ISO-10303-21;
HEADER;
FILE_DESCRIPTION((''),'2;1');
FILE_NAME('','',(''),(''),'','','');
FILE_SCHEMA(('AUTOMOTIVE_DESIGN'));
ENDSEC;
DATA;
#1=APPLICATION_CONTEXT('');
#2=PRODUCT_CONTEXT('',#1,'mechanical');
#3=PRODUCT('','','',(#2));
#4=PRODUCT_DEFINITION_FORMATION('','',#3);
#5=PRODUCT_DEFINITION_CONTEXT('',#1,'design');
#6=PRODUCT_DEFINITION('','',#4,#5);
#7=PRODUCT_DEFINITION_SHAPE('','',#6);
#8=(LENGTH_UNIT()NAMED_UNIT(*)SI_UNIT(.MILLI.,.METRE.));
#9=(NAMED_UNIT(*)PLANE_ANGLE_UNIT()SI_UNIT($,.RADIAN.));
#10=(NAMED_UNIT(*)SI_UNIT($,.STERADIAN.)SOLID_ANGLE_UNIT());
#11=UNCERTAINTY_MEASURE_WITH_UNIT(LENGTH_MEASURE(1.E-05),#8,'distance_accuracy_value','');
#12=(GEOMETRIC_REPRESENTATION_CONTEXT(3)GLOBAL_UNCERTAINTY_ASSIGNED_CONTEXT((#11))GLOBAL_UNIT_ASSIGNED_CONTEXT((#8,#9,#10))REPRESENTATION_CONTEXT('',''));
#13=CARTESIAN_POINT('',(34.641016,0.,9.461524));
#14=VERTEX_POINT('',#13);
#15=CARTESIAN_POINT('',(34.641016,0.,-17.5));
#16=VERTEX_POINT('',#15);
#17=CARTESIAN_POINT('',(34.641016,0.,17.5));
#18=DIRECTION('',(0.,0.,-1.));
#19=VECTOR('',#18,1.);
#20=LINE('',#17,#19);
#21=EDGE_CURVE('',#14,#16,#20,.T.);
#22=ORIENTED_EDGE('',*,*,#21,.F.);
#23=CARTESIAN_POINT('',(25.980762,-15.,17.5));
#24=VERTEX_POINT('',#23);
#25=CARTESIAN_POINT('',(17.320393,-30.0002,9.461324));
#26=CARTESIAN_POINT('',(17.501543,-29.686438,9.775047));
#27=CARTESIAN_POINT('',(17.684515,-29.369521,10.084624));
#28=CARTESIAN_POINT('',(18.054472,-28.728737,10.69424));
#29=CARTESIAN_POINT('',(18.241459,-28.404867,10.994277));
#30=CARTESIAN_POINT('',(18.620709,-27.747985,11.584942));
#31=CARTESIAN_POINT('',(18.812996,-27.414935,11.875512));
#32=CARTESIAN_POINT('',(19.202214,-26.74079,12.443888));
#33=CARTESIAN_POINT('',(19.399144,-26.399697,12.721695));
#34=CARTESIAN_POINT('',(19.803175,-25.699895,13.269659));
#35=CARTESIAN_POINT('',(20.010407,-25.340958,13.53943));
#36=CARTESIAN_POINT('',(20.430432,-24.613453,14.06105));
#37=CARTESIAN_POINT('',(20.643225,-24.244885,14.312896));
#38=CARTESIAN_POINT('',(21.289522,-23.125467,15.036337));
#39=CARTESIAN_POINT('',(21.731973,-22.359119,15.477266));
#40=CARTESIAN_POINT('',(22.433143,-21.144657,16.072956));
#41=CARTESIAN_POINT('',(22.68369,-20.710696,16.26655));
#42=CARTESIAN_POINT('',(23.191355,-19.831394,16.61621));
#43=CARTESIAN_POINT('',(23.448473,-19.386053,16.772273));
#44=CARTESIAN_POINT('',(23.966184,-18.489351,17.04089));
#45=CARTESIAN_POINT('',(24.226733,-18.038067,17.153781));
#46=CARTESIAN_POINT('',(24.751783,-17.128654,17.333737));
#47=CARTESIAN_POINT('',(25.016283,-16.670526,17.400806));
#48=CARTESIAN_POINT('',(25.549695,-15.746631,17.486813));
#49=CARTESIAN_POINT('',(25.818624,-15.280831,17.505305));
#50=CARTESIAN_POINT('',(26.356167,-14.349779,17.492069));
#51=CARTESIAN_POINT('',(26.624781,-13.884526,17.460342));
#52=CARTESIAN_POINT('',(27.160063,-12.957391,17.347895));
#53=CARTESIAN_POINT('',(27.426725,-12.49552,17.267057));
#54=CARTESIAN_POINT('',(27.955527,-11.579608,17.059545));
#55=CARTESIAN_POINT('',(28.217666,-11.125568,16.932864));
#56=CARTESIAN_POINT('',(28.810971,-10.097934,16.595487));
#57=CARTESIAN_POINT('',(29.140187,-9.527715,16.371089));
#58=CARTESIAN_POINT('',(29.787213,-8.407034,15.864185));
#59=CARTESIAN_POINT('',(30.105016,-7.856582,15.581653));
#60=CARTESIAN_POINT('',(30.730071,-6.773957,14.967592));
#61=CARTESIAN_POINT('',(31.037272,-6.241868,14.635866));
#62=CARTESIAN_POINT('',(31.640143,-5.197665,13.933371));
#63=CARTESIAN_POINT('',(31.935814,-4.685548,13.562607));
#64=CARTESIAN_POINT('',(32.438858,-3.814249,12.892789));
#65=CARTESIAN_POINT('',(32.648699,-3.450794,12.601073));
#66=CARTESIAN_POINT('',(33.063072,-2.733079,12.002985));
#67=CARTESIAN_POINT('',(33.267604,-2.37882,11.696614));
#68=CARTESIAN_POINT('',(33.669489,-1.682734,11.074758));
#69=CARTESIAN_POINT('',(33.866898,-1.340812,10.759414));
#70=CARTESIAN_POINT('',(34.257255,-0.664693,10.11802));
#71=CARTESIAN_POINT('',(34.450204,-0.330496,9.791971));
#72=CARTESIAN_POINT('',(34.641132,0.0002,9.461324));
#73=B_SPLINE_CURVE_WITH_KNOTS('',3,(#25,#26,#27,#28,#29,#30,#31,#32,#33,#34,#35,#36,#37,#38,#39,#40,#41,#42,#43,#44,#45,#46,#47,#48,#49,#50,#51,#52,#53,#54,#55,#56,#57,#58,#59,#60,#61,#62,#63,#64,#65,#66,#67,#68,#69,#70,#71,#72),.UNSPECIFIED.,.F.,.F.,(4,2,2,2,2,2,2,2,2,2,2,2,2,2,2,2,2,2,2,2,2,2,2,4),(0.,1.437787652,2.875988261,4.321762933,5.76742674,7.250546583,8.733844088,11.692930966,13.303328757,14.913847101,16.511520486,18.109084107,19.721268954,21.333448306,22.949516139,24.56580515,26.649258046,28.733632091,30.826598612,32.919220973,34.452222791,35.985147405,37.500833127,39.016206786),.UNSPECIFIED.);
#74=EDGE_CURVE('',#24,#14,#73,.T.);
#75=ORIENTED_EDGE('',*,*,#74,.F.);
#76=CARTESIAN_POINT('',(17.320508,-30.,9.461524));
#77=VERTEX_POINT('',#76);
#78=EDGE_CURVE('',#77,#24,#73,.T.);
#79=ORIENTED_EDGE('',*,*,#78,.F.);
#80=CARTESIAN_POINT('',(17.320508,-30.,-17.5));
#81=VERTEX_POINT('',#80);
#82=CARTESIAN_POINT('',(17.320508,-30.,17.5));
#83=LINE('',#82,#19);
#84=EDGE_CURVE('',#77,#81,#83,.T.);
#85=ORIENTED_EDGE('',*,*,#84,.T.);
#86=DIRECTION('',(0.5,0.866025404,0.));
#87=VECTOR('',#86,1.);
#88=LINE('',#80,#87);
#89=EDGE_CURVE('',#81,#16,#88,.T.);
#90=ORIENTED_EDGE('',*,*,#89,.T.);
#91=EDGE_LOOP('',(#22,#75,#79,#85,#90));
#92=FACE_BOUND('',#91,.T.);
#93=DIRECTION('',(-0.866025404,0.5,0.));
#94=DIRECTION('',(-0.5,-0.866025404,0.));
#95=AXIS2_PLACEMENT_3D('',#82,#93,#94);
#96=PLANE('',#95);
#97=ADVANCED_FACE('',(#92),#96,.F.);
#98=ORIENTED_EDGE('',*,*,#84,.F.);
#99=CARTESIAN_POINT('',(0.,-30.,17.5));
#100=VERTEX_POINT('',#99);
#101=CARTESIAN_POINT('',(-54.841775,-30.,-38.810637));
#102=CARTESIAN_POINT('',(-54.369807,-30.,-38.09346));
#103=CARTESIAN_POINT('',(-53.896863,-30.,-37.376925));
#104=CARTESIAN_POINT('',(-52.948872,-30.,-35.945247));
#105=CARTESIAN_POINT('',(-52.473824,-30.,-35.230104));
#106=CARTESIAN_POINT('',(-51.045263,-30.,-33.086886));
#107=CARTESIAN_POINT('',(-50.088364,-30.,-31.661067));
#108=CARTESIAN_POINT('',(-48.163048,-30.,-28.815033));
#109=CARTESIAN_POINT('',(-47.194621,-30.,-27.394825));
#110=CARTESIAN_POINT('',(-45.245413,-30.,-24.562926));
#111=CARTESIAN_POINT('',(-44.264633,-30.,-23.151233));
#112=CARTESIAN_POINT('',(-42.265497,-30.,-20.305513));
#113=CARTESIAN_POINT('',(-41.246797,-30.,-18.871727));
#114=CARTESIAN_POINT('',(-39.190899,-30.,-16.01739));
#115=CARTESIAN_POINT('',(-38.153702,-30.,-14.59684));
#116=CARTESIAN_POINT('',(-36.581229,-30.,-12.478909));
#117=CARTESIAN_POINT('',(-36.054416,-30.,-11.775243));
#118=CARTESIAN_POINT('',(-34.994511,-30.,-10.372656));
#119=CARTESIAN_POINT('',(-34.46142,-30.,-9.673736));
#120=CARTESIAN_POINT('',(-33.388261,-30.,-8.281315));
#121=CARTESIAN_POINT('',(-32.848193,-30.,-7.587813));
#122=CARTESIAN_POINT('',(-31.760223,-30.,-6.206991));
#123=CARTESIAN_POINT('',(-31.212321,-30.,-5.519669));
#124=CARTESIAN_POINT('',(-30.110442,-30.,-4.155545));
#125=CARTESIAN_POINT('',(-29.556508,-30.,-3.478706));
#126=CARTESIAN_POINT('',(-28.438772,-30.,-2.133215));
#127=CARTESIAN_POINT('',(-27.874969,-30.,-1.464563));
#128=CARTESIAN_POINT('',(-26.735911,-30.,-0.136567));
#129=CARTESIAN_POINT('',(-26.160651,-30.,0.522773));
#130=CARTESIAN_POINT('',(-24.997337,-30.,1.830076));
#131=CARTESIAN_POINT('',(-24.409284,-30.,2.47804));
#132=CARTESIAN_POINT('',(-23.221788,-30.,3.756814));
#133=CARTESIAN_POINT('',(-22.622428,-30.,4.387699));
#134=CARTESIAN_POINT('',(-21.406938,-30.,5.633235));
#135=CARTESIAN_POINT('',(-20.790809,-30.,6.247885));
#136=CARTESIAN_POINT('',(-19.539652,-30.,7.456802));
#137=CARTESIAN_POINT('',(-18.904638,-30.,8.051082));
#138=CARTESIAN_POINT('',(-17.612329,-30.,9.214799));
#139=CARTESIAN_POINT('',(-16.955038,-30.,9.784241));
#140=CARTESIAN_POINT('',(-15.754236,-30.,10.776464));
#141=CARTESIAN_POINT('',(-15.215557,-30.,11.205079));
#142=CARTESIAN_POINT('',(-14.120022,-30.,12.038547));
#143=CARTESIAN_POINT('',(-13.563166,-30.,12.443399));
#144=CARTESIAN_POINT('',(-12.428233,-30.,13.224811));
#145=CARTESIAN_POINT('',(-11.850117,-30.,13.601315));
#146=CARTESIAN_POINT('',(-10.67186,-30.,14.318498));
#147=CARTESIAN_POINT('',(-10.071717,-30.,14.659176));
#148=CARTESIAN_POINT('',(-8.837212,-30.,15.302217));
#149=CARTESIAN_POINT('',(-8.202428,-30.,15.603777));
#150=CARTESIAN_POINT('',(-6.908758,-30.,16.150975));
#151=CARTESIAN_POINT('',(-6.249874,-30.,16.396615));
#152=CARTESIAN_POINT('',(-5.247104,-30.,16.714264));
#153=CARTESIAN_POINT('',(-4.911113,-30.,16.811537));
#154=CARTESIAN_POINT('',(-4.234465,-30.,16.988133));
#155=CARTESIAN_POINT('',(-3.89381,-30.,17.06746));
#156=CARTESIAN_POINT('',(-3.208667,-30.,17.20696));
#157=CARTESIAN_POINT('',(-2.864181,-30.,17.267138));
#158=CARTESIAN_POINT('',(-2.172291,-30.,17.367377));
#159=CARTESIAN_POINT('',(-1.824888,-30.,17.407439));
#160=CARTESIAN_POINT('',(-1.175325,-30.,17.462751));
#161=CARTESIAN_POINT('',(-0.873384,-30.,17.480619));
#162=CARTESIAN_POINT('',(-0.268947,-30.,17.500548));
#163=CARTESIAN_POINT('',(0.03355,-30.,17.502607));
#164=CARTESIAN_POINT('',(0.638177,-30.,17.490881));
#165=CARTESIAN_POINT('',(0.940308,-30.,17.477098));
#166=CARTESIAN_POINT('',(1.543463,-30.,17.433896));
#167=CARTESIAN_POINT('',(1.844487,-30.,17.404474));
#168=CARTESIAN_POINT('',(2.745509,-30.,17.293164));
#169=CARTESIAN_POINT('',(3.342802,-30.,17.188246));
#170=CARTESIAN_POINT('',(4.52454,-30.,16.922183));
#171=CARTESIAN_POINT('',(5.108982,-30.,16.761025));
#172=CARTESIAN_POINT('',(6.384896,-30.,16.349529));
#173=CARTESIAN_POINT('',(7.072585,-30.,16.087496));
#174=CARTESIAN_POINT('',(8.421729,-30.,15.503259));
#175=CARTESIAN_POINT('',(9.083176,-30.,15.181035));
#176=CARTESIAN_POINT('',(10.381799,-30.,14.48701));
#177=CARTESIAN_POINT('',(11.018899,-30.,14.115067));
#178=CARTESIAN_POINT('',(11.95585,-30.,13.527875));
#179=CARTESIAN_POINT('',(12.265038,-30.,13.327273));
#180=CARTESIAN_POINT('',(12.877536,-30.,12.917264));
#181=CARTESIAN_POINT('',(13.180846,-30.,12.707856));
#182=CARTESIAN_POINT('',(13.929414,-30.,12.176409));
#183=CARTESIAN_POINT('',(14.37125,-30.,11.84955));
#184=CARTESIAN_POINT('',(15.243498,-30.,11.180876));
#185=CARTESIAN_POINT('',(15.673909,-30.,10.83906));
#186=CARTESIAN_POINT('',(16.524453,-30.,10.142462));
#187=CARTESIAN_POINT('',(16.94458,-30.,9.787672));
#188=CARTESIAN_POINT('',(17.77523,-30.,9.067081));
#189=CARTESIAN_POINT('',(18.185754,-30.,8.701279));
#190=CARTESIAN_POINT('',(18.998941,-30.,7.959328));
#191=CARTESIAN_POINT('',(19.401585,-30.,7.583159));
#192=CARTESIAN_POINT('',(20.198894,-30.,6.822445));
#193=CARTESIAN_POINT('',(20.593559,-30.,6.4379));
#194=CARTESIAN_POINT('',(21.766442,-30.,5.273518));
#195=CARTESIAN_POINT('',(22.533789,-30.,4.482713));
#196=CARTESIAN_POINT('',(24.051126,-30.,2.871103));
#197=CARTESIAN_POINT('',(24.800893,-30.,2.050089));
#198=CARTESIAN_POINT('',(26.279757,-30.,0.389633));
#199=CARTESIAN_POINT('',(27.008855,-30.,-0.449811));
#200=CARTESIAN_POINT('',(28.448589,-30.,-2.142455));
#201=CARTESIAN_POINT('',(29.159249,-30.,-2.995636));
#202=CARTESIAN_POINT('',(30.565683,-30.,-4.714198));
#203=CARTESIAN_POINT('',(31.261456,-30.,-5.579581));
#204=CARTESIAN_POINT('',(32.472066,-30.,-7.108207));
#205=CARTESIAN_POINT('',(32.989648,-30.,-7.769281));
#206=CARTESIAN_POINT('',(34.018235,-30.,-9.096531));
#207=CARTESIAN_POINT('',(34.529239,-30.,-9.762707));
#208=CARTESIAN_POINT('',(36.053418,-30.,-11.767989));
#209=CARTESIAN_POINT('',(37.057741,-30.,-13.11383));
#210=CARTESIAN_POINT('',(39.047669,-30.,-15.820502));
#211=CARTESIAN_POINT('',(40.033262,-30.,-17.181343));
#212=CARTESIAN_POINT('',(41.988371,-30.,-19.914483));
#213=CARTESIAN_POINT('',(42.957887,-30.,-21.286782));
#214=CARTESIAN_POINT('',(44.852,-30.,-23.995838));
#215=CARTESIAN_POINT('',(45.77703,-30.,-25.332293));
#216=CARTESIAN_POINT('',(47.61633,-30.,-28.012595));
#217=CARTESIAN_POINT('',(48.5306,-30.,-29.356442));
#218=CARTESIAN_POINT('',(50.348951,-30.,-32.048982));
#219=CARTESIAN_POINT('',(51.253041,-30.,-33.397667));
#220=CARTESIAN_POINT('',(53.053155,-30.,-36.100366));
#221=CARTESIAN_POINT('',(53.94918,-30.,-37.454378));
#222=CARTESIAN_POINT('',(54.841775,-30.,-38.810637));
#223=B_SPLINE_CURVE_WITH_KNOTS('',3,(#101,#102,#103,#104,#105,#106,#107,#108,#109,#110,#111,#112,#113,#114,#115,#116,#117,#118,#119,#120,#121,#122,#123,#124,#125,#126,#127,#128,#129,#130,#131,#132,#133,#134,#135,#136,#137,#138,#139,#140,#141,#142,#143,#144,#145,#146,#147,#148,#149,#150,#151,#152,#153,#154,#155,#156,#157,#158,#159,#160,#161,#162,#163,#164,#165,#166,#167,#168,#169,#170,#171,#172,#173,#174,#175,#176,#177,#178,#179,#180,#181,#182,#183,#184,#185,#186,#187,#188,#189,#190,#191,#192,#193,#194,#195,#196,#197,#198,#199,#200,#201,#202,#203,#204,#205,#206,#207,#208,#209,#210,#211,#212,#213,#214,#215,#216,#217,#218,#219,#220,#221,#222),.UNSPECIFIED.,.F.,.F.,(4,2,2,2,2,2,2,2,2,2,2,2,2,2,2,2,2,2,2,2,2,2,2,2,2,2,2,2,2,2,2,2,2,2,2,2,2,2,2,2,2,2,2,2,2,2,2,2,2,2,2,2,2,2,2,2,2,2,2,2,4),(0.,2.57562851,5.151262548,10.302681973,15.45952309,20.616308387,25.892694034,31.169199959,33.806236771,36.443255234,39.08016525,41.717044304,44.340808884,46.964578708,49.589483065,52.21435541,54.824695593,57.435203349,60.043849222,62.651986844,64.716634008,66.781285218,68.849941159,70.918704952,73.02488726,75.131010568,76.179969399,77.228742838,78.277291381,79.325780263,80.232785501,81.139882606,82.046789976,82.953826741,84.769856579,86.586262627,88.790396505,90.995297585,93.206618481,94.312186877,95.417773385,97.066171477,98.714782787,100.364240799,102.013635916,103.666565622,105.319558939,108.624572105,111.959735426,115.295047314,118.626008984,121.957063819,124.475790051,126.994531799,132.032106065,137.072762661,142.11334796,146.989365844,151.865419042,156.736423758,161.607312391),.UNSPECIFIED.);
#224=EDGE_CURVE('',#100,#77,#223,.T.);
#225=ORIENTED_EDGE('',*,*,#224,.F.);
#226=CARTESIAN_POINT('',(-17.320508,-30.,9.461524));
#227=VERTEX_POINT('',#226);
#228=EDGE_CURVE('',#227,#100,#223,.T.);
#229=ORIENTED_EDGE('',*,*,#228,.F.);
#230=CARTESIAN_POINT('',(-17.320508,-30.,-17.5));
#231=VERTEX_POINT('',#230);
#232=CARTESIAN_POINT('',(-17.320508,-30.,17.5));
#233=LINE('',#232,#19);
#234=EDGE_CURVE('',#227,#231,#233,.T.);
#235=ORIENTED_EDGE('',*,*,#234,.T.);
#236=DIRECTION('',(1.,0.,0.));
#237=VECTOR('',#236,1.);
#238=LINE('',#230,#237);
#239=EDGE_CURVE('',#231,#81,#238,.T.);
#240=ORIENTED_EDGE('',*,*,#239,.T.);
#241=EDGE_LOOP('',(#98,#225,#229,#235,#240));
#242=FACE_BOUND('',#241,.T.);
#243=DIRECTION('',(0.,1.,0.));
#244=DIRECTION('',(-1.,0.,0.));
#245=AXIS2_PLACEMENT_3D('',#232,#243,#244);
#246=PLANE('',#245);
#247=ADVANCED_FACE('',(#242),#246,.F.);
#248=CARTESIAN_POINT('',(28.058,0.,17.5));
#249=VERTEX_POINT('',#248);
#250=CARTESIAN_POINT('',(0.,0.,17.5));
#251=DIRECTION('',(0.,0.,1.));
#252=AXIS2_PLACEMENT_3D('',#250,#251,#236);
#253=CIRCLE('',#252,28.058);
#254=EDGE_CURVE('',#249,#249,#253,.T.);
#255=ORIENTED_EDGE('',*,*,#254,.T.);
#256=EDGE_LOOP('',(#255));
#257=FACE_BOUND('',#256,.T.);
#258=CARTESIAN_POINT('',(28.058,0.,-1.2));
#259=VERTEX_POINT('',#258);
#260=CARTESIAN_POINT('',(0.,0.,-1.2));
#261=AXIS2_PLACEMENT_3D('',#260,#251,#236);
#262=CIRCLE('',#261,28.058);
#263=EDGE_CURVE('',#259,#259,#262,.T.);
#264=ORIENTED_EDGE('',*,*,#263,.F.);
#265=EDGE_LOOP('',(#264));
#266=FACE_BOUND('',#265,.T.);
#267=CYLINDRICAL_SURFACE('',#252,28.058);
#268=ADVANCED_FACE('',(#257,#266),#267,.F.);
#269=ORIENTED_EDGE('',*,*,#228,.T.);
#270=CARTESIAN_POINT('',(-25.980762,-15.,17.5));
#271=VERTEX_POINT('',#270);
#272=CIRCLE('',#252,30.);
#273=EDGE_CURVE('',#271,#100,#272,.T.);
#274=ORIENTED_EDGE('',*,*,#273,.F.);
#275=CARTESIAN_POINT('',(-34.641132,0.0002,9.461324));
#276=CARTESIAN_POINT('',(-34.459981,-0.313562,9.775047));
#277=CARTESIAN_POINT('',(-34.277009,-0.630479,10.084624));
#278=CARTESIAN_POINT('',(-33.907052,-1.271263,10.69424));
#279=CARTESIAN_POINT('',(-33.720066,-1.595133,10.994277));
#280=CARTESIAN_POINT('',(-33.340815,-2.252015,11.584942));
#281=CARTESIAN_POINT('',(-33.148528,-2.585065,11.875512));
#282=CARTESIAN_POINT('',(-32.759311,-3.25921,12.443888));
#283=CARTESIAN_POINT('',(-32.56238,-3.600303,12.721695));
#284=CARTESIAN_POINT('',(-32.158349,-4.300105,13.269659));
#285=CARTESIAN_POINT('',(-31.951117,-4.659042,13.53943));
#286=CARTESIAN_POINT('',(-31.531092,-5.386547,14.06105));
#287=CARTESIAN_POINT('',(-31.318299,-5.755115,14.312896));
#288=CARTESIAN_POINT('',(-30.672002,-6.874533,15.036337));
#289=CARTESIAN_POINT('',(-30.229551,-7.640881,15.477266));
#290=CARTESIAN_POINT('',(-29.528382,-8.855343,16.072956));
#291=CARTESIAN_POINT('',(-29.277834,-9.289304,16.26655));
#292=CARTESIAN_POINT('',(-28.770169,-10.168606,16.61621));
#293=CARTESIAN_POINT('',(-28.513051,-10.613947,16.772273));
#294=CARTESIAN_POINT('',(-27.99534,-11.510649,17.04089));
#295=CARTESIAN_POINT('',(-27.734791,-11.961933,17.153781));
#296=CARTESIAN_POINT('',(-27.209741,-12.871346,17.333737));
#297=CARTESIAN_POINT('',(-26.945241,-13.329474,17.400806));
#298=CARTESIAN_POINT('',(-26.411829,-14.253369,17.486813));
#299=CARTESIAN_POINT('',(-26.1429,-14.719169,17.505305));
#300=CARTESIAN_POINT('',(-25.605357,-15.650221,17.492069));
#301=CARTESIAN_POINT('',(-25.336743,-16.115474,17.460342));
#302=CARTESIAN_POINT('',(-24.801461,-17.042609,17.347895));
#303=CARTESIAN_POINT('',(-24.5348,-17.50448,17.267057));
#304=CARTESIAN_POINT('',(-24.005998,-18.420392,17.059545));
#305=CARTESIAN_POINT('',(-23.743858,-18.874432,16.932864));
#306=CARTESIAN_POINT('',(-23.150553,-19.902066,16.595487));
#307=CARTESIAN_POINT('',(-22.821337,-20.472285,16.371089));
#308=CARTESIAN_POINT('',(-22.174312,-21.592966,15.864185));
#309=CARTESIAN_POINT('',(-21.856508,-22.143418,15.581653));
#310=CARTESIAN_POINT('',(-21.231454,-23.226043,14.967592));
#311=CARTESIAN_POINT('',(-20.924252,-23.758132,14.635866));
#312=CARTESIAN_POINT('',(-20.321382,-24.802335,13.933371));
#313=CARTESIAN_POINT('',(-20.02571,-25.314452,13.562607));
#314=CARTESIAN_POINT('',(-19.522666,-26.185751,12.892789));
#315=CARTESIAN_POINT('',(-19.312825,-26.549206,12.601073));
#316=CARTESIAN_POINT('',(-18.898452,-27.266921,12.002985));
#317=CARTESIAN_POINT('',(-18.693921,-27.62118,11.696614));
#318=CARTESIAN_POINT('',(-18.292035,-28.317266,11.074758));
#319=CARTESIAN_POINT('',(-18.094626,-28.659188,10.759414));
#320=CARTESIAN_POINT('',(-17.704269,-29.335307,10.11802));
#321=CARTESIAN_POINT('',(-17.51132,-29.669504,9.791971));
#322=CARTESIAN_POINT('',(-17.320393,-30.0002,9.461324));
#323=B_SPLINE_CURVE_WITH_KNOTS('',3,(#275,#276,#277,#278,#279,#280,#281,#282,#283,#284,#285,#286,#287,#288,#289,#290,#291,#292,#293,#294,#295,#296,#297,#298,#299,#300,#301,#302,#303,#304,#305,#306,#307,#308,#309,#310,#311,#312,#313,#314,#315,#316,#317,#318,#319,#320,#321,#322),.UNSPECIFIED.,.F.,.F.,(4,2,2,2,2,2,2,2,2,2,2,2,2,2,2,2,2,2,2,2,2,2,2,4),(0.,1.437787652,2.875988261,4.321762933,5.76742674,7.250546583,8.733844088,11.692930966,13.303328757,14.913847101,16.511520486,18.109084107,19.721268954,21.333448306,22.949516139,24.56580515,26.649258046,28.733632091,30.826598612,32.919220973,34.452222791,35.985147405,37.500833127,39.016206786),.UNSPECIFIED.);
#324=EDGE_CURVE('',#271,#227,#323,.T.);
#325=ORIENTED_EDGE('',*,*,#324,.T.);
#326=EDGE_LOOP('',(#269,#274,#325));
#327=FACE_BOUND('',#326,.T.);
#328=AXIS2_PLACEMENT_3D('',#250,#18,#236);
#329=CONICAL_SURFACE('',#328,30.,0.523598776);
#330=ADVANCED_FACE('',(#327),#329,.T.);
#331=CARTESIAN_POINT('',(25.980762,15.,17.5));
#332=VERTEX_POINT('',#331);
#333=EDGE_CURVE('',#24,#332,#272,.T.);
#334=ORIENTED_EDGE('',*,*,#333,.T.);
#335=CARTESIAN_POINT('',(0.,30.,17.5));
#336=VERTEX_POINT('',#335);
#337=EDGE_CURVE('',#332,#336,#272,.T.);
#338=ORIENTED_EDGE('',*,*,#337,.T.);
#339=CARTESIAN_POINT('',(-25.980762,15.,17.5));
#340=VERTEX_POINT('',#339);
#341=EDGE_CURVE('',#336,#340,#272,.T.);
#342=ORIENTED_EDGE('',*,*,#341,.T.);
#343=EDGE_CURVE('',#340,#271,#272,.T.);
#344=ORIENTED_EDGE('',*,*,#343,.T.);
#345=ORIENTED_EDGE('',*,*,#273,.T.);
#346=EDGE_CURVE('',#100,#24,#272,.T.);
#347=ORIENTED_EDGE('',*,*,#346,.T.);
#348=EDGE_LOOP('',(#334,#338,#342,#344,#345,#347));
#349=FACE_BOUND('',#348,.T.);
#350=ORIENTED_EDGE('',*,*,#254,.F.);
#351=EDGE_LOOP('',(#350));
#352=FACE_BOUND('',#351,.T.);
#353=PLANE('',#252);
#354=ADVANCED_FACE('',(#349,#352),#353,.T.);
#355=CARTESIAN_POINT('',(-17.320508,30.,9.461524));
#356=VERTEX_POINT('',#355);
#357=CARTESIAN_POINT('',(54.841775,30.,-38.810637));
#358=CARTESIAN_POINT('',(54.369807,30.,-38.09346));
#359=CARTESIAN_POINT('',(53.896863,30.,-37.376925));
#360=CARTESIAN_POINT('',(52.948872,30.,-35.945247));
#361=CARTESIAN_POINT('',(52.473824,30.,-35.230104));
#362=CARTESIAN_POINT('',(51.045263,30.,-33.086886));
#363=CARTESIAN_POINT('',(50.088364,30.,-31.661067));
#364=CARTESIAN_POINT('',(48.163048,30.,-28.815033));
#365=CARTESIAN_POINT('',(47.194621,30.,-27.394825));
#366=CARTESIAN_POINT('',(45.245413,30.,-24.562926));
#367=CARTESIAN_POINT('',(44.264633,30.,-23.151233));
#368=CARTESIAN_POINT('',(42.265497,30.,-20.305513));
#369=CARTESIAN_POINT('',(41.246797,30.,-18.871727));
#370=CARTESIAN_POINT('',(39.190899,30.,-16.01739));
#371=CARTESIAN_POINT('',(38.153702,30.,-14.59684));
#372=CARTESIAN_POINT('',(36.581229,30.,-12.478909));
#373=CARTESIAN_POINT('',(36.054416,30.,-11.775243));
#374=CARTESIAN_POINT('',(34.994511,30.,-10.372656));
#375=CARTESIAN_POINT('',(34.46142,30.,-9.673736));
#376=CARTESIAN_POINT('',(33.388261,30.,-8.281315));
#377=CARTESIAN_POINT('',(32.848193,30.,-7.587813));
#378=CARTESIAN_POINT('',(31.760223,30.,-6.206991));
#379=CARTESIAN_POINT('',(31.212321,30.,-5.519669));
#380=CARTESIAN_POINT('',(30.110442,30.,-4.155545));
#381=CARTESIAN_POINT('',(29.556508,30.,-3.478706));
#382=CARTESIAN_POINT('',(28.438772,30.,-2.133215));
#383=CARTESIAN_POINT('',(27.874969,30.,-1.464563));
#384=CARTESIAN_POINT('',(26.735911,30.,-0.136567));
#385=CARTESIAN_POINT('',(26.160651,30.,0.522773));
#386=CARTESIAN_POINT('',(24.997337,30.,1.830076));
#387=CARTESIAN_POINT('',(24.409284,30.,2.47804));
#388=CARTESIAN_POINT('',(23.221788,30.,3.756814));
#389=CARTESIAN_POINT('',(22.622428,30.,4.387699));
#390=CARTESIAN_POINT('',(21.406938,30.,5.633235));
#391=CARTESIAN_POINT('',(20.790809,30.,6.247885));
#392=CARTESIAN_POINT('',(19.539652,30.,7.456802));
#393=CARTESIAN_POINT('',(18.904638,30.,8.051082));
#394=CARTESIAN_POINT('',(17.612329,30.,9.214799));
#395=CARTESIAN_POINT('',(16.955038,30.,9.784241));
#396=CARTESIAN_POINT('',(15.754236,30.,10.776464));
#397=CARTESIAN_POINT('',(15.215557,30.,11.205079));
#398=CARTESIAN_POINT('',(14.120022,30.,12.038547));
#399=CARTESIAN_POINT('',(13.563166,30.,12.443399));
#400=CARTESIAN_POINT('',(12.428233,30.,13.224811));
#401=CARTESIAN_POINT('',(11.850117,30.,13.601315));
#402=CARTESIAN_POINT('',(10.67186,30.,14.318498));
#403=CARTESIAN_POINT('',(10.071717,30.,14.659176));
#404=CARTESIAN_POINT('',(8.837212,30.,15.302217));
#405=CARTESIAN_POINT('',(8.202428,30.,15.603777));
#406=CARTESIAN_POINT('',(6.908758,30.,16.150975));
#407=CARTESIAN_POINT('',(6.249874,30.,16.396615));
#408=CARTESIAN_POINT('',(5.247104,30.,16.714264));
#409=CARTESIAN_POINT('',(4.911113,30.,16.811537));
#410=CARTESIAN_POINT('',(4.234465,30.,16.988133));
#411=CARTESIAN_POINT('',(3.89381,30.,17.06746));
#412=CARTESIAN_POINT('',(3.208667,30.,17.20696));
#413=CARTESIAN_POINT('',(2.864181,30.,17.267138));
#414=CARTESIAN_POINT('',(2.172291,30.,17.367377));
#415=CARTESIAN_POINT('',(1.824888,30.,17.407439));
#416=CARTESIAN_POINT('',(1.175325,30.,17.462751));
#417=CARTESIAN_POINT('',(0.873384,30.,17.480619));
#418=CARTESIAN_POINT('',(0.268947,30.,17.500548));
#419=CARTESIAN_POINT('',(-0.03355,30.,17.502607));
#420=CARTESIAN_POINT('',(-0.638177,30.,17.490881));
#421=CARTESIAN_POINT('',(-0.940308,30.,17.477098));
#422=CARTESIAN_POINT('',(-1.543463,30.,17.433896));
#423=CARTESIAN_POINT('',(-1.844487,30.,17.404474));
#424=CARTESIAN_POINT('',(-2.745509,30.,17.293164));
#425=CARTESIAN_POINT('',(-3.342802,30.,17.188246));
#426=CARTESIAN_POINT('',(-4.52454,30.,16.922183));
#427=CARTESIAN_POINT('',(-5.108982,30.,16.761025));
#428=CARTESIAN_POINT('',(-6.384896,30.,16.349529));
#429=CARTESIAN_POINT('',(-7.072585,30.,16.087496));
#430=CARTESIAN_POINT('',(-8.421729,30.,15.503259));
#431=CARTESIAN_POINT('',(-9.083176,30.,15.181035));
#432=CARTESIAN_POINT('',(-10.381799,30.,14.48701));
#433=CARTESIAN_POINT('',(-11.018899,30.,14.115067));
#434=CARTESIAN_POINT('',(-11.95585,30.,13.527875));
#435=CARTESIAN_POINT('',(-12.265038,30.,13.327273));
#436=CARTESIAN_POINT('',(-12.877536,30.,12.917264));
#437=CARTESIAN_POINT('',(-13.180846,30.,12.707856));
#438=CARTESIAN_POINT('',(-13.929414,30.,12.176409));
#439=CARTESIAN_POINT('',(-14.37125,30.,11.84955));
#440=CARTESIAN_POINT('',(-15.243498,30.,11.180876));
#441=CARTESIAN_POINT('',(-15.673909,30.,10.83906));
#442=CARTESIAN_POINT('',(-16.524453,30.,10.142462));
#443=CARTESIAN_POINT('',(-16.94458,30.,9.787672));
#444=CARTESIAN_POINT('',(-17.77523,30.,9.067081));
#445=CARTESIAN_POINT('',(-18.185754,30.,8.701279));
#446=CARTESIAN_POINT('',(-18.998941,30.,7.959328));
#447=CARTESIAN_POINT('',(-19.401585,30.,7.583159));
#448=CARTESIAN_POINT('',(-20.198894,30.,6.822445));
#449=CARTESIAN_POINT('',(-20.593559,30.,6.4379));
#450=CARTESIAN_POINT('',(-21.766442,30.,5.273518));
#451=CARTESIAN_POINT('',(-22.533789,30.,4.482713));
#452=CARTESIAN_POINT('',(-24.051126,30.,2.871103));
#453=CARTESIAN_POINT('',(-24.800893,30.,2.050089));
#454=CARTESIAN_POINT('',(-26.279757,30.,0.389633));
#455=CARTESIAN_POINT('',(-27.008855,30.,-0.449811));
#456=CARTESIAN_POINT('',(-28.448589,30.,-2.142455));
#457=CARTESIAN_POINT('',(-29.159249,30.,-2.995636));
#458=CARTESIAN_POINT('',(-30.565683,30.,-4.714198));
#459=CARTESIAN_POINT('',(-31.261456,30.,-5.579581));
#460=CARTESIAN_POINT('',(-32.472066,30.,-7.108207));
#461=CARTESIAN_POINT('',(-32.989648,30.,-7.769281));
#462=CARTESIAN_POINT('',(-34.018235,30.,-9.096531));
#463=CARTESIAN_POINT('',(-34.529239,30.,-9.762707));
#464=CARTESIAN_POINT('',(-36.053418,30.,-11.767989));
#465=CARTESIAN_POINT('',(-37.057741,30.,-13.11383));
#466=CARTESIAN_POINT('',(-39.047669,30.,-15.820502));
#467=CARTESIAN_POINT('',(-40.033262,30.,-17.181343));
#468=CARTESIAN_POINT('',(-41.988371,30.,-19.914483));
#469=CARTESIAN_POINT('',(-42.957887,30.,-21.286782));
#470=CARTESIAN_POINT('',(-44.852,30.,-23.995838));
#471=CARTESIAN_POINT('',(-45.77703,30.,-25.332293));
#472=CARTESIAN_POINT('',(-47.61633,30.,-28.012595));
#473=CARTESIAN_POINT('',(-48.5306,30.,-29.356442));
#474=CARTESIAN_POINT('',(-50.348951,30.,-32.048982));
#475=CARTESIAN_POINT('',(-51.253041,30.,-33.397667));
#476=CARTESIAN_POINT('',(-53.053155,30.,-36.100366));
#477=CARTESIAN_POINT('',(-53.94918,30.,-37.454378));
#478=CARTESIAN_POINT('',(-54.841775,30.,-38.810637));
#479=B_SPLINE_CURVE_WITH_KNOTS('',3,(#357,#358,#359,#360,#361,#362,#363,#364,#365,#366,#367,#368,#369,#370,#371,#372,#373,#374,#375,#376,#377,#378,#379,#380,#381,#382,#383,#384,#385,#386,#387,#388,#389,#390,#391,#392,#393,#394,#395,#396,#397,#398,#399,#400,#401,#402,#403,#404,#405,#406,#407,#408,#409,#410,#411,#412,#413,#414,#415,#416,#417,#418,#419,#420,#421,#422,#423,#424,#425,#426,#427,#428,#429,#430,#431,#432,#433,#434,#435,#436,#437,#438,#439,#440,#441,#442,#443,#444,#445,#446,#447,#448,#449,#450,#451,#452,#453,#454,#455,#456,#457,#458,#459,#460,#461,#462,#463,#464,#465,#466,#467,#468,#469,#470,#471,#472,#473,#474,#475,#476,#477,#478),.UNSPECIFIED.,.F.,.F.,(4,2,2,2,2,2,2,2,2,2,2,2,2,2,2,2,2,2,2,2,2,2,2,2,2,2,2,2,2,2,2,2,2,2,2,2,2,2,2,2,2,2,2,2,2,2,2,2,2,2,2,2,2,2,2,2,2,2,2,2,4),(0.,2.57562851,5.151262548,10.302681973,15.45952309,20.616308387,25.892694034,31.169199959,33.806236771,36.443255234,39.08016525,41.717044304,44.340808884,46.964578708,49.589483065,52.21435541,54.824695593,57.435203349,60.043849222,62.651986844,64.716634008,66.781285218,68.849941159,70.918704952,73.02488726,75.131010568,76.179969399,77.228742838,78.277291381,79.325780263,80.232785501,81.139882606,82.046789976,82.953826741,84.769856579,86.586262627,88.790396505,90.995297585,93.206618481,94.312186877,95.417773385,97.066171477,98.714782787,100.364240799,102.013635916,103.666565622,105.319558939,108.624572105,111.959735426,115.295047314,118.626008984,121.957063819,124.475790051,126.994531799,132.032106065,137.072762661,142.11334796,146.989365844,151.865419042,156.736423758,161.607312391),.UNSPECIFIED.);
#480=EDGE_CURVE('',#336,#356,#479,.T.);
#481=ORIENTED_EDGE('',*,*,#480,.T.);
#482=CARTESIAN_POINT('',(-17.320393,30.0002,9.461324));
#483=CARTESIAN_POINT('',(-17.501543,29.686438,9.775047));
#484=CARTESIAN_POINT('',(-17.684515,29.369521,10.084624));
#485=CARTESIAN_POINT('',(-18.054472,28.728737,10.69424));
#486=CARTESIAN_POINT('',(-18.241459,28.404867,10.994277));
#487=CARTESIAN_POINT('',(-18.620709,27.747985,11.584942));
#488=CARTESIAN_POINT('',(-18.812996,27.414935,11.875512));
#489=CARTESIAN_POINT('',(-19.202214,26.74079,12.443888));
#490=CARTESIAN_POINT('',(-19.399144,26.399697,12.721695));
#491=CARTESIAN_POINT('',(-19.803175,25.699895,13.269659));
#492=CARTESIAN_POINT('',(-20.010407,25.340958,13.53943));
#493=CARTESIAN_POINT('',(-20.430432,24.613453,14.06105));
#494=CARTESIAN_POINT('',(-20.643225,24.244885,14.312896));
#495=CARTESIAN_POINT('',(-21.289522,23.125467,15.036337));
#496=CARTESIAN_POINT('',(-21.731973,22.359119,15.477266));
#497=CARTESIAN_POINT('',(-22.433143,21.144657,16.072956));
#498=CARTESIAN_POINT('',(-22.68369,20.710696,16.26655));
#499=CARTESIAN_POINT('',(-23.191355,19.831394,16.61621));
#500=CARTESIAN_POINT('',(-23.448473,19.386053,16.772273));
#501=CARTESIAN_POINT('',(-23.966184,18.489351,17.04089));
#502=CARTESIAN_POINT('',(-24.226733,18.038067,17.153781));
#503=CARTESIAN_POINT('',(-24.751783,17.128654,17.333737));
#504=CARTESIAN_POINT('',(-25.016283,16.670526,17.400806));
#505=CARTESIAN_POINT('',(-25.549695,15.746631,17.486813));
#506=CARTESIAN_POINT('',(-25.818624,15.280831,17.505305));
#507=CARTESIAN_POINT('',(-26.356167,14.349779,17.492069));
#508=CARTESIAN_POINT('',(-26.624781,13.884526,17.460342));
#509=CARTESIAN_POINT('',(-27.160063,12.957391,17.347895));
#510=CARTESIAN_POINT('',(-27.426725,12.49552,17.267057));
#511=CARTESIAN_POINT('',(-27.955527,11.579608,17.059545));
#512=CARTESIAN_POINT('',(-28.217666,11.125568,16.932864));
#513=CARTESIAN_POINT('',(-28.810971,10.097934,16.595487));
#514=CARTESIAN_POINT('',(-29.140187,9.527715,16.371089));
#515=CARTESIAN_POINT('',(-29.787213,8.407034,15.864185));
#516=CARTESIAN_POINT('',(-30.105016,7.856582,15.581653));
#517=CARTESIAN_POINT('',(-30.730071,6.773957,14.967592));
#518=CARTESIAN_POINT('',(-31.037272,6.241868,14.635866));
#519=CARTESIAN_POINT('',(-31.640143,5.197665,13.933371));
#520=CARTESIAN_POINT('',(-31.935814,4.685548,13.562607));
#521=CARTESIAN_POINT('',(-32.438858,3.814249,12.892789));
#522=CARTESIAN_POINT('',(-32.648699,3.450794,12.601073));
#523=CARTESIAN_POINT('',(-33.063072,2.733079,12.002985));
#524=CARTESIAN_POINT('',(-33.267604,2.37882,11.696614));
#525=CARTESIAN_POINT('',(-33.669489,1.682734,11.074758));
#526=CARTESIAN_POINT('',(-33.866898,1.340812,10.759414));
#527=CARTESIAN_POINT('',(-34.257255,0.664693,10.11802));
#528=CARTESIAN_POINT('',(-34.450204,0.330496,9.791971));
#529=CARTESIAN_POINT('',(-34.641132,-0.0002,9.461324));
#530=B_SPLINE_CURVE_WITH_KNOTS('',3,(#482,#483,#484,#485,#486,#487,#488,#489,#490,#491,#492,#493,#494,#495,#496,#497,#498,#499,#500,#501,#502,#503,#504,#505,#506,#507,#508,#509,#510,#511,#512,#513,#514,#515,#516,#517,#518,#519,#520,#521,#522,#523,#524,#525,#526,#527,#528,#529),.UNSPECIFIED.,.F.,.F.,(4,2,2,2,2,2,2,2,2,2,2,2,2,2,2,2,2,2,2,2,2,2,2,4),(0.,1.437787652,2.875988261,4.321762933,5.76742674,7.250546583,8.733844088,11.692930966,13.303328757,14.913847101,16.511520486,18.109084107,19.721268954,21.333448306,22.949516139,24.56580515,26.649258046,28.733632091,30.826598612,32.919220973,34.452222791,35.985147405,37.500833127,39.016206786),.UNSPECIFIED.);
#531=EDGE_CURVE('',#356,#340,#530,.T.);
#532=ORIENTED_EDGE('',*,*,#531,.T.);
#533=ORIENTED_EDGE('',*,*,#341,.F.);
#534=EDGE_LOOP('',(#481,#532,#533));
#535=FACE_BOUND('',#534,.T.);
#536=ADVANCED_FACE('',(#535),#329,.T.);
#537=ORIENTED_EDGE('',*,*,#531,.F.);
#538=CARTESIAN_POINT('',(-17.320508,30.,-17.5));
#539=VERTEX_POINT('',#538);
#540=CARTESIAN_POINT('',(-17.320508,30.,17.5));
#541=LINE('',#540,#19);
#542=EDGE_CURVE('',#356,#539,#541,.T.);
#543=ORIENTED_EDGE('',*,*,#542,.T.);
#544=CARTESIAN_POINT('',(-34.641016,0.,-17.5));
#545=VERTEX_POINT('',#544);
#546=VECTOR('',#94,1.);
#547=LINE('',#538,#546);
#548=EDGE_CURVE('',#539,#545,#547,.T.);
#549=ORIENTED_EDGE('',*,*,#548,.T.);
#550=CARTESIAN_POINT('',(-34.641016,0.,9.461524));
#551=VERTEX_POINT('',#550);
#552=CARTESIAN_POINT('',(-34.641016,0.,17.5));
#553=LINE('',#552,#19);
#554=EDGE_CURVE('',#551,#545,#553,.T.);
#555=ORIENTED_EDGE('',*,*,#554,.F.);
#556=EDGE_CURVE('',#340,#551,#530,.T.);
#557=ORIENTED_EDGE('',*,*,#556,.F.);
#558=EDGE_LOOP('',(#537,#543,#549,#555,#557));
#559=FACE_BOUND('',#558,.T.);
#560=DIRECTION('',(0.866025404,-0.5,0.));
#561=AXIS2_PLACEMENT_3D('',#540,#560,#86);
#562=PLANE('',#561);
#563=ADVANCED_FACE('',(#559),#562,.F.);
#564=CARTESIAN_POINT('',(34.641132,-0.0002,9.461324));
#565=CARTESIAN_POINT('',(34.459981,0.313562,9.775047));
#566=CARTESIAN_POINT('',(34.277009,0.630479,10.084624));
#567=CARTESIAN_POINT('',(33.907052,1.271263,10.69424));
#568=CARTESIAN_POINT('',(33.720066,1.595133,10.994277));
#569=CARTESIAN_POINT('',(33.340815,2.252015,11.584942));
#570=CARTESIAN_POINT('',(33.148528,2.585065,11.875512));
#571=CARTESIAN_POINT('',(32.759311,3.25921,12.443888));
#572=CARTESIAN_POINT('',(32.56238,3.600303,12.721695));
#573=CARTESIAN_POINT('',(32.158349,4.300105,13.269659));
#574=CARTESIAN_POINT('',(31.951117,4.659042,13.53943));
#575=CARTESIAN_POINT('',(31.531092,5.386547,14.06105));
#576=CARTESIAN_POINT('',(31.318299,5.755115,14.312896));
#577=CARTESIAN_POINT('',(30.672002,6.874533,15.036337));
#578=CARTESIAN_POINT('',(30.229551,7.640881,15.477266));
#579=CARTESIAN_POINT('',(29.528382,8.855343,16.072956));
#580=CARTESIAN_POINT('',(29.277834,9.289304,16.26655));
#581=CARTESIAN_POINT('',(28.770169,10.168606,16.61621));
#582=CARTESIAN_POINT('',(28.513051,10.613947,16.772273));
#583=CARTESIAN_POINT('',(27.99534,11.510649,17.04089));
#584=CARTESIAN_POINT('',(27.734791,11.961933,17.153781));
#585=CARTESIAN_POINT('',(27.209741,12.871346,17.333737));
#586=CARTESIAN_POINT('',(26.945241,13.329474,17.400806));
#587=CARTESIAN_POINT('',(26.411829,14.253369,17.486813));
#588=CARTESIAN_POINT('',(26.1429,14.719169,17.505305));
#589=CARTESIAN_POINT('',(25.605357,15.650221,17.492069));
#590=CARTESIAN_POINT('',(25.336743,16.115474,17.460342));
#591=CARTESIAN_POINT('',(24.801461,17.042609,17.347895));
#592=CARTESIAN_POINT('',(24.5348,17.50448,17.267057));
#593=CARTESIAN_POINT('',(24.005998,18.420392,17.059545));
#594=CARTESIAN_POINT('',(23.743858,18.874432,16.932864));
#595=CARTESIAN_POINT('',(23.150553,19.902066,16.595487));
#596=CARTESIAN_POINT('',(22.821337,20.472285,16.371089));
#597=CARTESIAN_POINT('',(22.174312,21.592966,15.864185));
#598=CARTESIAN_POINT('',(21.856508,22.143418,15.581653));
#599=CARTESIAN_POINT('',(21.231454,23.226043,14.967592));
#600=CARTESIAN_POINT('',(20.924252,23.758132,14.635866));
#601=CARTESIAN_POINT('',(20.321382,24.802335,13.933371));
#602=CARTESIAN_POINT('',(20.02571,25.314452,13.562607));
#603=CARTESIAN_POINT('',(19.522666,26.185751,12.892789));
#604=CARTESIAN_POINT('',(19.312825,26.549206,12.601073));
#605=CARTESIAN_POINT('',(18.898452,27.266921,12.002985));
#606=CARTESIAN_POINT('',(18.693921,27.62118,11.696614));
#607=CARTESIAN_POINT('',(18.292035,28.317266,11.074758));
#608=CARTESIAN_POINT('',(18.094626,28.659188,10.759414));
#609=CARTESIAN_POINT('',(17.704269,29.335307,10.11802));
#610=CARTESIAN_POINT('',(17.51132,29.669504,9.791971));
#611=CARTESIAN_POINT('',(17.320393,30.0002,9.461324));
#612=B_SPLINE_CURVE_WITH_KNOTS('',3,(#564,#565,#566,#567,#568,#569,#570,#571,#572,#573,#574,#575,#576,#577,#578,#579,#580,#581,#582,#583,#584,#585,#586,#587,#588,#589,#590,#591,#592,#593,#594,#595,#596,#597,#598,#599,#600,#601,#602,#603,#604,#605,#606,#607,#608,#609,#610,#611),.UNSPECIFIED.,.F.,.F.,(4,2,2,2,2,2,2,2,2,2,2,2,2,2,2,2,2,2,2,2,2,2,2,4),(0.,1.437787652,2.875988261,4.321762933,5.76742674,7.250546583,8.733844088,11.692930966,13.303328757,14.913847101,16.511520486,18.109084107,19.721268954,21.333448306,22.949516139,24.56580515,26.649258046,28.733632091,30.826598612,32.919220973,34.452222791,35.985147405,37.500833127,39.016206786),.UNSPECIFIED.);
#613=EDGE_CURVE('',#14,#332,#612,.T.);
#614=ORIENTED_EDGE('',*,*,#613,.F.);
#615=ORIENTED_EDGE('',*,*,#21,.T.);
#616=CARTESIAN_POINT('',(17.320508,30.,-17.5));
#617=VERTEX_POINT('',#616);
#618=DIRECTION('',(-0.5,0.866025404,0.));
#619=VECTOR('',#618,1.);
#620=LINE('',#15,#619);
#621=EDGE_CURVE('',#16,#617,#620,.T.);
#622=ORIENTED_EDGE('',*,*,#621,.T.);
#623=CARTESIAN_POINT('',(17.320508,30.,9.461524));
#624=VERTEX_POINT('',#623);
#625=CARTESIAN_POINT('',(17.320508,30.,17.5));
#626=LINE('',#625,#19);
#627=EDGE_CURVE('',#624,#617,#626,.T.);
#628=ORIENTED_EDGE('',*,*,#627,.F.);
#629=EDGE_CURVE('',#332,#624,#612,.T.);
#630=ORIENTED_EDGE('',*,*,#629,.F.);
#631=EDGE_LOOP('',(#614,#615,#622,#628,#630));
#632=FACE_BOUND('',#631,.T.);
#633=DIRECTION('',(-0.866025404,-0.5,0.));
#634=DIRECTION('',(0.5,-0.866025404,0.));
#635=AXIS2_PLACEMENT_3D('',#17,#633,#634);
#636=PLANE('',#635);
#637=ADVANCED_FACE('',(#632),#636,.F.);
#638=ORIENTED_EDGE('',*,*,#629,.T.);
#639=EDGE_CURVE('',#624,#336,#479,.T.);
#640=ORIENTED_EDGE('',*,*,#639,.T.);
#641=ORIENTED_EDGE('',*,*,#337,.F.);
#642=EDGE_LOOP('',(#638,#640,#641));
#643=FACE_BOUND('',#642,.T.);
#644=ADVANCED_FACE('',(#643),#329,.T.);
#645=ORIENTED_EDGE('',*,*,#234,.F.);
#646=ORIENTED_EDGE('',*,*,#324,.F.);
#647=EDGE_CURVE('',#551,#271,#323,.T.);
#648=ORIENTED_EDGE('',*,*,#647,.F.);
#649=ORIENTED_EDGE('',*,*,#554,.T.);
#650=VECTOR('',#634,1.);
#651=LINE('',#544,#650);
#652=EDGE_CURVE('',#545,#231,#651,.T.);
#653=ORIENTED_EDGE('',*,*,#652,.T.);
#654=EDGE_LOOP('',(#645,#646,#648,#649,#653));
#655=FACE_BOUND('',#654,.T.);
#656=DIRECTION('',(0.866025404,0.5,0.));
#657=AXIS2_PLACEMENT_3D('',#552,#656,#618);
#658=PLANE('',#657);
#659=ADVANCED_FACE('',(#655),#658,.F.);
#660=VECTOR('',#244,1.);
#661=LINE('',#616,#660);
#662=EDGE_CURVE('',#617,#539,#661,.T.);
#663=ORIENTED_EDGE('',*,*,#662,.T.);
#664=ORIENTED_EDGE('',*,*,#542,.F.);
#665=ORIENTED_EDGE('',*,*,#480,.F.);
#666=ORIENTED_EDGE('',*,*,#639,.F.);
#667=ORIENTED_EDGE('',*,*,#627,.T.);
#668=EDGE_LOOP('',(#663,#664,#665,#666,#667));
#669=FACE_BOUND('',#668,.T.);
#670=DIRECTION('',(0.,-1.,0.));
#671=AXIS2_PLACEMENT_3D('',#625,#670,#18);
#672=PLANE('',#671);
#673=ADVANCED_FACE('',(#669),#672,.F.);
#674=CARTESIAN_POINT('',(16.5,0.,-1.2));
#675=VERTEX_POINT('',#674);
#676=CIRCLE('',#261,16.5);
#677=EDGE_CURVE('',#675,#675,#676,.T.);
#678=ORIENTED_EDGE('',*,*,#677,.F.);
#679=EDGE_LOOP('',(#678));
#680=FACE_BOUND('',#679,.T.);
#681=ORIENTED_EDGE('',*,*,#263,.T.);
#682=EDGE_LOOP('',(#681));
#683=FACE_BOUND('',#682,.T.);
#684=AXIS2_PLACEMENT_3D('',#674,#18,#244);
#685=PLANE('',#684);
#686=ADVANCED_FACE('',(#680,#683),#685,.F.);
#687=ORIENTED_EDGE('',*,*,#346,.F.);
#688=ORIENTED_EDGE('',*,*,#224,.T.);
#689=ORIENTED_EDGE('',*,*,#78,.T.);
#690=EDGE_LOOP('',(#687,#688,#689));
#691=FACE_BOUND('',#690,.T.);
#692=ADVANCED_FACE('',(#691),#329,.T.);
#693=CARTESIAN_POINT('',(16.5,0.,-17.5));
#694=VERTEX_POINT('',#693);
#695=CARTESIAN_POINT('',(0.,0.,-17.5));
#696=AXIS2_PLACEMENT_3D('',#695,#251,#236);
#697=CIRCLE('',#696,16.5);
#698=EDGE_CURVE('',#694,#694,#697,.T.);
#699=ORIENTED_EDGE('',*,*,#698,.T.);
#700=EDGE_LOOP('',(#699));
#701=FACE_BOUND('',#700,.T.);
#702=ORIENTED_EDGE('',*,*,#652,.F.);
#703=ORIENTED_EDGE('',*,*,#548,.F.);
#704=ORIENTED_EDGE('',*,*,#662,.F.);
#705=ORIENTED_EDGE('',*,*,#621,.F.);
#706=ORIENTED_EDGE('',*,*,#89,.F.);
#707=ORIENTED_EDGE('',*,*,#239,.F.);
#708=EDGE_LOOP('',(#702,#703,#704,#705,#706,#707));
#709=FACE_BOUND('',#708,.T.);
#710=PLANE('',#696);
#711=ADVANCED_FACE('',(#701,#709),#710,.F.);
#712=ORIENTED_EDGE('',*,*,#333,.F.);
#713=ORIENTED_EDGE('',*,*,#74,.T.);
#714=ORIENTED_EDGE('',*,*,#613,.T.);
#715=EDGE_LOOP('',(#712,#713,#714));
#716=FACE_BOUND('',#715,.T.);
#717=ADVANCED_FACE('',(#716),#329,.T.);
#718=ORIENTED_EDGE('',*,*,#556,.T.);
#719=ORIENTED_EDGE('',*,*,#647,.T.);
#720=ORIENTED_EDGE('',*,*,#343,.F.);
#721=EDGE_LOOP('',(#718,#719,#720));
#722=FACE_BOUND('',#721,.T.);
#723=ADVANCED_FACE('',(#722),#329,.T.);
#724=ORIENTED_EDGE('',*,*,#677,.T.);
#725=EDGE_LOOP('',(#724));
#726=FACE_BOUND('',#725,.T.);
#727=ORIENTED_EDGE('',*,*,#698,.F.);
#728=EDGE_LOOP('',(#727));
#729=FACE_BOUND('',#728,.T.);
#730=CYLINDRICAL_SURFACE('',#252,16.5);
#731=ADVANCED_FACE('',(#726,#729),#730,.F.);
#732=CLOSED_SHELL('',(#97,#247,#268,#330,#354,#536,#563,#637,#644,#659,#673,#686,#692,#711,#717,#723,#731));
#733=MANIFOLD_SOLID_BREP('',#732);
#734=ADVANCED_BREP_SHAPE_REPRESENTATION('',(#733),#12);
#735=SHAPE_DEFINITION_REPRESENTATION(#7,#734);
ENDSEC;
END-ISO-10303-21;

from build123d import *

# Parameters (mm, degrees)
BOSS_EXTRUDE1_DEPTH                      = 17.5
SKETCH3_OUTSIDE_W                        = 131.318
SKETCH3_OUTSIDE_H                        = 122.036
SKETCH3_OUTSIDE_R                        = 30
CUT_EXTRUDE1_DEPTH                       = 17.5
CUT_EXTRUDE1_TAPER                       = 30
CUT_EXTRUDE1_OTHER_WAY_DEPTH             = 17.5
CUT_EXTRUDE1_OTHER_WAY_TAPER             = 30
CBORE_FOR_M30_HEX_HEAD_BOLT1_D           = 33
CBORE_FOR_M30_HEX_HEAD_BOLT1_CBORE_D     = 56.116
CBORE_FOR_M30_HEX_HEAD_BOLT1_CBORE_DEPTH = 18.7


with BuildPart() as part:
    # Sketch2 → Boss-Extrude1 (new, symmetric)
    with BuildSketch(Plane.XY):
        Polygon((34.641016151, 0), (17.320508076, 30), (-17.320508076, 30), (-34.641016151, 0), (-17.320508076, -30), (17.320508076, -30), align=None)
    extrude(amount=BOSS_EXTRUDE1_DEPTH, both=True)

    # Sketch3 outside → Cut-Extrude1 (cut)
    with BuildSketch(Plane.XY.offset(17.5)):
        Rectangle(SKETCH3_OUTSIDE_W, SKETCH3_OUTSIDE_H)
        Circle(SKETCH3_OUTSIDE_R, mode=Mode.SUBTRACT)
    extrude(amount=CUT_EXTRUDE1_DEPTH, taper=CUT_EXTRUDE1_TAPER, mode=Mode.SUBTRACT)

    # Sketch3 outside → Cut-Extrude1 other way (cut)
    with BuildSketch(Plane.XY.offset(17.5)):
        Rectangle(SKETCH3_OUTSIDE_W, SKETCH3_OUTSIDE_H)
        Circle(SKETCH3_OUTSIDE_R, mode=Mode.SUBTRACT)
    extrude(amount=-CUT_EXTRUDE1_OTHER_WAY_DEPTH, taper=CUT_EXTRUDE1_OTHER_WAY_TAPER, mode=Mode.SUBTRACT)

    # CBORE for M30 Hex Head Bolt1 (through all)
    with Locations(Plane.XY.offset(17.5)):
        with Locations((0, 0)):
            CounterBoreHole(CBORE_FOR_M30_HEX_HEAD_BOLT1_D / 2, CBORE_FOR_M30_HEX_HEAD_BOLT1_CBORE_D / 2, CBORE_FOR_M30_HEX_HEAD_BOLT1_CBORE_DEPTH)


solid = part.part
